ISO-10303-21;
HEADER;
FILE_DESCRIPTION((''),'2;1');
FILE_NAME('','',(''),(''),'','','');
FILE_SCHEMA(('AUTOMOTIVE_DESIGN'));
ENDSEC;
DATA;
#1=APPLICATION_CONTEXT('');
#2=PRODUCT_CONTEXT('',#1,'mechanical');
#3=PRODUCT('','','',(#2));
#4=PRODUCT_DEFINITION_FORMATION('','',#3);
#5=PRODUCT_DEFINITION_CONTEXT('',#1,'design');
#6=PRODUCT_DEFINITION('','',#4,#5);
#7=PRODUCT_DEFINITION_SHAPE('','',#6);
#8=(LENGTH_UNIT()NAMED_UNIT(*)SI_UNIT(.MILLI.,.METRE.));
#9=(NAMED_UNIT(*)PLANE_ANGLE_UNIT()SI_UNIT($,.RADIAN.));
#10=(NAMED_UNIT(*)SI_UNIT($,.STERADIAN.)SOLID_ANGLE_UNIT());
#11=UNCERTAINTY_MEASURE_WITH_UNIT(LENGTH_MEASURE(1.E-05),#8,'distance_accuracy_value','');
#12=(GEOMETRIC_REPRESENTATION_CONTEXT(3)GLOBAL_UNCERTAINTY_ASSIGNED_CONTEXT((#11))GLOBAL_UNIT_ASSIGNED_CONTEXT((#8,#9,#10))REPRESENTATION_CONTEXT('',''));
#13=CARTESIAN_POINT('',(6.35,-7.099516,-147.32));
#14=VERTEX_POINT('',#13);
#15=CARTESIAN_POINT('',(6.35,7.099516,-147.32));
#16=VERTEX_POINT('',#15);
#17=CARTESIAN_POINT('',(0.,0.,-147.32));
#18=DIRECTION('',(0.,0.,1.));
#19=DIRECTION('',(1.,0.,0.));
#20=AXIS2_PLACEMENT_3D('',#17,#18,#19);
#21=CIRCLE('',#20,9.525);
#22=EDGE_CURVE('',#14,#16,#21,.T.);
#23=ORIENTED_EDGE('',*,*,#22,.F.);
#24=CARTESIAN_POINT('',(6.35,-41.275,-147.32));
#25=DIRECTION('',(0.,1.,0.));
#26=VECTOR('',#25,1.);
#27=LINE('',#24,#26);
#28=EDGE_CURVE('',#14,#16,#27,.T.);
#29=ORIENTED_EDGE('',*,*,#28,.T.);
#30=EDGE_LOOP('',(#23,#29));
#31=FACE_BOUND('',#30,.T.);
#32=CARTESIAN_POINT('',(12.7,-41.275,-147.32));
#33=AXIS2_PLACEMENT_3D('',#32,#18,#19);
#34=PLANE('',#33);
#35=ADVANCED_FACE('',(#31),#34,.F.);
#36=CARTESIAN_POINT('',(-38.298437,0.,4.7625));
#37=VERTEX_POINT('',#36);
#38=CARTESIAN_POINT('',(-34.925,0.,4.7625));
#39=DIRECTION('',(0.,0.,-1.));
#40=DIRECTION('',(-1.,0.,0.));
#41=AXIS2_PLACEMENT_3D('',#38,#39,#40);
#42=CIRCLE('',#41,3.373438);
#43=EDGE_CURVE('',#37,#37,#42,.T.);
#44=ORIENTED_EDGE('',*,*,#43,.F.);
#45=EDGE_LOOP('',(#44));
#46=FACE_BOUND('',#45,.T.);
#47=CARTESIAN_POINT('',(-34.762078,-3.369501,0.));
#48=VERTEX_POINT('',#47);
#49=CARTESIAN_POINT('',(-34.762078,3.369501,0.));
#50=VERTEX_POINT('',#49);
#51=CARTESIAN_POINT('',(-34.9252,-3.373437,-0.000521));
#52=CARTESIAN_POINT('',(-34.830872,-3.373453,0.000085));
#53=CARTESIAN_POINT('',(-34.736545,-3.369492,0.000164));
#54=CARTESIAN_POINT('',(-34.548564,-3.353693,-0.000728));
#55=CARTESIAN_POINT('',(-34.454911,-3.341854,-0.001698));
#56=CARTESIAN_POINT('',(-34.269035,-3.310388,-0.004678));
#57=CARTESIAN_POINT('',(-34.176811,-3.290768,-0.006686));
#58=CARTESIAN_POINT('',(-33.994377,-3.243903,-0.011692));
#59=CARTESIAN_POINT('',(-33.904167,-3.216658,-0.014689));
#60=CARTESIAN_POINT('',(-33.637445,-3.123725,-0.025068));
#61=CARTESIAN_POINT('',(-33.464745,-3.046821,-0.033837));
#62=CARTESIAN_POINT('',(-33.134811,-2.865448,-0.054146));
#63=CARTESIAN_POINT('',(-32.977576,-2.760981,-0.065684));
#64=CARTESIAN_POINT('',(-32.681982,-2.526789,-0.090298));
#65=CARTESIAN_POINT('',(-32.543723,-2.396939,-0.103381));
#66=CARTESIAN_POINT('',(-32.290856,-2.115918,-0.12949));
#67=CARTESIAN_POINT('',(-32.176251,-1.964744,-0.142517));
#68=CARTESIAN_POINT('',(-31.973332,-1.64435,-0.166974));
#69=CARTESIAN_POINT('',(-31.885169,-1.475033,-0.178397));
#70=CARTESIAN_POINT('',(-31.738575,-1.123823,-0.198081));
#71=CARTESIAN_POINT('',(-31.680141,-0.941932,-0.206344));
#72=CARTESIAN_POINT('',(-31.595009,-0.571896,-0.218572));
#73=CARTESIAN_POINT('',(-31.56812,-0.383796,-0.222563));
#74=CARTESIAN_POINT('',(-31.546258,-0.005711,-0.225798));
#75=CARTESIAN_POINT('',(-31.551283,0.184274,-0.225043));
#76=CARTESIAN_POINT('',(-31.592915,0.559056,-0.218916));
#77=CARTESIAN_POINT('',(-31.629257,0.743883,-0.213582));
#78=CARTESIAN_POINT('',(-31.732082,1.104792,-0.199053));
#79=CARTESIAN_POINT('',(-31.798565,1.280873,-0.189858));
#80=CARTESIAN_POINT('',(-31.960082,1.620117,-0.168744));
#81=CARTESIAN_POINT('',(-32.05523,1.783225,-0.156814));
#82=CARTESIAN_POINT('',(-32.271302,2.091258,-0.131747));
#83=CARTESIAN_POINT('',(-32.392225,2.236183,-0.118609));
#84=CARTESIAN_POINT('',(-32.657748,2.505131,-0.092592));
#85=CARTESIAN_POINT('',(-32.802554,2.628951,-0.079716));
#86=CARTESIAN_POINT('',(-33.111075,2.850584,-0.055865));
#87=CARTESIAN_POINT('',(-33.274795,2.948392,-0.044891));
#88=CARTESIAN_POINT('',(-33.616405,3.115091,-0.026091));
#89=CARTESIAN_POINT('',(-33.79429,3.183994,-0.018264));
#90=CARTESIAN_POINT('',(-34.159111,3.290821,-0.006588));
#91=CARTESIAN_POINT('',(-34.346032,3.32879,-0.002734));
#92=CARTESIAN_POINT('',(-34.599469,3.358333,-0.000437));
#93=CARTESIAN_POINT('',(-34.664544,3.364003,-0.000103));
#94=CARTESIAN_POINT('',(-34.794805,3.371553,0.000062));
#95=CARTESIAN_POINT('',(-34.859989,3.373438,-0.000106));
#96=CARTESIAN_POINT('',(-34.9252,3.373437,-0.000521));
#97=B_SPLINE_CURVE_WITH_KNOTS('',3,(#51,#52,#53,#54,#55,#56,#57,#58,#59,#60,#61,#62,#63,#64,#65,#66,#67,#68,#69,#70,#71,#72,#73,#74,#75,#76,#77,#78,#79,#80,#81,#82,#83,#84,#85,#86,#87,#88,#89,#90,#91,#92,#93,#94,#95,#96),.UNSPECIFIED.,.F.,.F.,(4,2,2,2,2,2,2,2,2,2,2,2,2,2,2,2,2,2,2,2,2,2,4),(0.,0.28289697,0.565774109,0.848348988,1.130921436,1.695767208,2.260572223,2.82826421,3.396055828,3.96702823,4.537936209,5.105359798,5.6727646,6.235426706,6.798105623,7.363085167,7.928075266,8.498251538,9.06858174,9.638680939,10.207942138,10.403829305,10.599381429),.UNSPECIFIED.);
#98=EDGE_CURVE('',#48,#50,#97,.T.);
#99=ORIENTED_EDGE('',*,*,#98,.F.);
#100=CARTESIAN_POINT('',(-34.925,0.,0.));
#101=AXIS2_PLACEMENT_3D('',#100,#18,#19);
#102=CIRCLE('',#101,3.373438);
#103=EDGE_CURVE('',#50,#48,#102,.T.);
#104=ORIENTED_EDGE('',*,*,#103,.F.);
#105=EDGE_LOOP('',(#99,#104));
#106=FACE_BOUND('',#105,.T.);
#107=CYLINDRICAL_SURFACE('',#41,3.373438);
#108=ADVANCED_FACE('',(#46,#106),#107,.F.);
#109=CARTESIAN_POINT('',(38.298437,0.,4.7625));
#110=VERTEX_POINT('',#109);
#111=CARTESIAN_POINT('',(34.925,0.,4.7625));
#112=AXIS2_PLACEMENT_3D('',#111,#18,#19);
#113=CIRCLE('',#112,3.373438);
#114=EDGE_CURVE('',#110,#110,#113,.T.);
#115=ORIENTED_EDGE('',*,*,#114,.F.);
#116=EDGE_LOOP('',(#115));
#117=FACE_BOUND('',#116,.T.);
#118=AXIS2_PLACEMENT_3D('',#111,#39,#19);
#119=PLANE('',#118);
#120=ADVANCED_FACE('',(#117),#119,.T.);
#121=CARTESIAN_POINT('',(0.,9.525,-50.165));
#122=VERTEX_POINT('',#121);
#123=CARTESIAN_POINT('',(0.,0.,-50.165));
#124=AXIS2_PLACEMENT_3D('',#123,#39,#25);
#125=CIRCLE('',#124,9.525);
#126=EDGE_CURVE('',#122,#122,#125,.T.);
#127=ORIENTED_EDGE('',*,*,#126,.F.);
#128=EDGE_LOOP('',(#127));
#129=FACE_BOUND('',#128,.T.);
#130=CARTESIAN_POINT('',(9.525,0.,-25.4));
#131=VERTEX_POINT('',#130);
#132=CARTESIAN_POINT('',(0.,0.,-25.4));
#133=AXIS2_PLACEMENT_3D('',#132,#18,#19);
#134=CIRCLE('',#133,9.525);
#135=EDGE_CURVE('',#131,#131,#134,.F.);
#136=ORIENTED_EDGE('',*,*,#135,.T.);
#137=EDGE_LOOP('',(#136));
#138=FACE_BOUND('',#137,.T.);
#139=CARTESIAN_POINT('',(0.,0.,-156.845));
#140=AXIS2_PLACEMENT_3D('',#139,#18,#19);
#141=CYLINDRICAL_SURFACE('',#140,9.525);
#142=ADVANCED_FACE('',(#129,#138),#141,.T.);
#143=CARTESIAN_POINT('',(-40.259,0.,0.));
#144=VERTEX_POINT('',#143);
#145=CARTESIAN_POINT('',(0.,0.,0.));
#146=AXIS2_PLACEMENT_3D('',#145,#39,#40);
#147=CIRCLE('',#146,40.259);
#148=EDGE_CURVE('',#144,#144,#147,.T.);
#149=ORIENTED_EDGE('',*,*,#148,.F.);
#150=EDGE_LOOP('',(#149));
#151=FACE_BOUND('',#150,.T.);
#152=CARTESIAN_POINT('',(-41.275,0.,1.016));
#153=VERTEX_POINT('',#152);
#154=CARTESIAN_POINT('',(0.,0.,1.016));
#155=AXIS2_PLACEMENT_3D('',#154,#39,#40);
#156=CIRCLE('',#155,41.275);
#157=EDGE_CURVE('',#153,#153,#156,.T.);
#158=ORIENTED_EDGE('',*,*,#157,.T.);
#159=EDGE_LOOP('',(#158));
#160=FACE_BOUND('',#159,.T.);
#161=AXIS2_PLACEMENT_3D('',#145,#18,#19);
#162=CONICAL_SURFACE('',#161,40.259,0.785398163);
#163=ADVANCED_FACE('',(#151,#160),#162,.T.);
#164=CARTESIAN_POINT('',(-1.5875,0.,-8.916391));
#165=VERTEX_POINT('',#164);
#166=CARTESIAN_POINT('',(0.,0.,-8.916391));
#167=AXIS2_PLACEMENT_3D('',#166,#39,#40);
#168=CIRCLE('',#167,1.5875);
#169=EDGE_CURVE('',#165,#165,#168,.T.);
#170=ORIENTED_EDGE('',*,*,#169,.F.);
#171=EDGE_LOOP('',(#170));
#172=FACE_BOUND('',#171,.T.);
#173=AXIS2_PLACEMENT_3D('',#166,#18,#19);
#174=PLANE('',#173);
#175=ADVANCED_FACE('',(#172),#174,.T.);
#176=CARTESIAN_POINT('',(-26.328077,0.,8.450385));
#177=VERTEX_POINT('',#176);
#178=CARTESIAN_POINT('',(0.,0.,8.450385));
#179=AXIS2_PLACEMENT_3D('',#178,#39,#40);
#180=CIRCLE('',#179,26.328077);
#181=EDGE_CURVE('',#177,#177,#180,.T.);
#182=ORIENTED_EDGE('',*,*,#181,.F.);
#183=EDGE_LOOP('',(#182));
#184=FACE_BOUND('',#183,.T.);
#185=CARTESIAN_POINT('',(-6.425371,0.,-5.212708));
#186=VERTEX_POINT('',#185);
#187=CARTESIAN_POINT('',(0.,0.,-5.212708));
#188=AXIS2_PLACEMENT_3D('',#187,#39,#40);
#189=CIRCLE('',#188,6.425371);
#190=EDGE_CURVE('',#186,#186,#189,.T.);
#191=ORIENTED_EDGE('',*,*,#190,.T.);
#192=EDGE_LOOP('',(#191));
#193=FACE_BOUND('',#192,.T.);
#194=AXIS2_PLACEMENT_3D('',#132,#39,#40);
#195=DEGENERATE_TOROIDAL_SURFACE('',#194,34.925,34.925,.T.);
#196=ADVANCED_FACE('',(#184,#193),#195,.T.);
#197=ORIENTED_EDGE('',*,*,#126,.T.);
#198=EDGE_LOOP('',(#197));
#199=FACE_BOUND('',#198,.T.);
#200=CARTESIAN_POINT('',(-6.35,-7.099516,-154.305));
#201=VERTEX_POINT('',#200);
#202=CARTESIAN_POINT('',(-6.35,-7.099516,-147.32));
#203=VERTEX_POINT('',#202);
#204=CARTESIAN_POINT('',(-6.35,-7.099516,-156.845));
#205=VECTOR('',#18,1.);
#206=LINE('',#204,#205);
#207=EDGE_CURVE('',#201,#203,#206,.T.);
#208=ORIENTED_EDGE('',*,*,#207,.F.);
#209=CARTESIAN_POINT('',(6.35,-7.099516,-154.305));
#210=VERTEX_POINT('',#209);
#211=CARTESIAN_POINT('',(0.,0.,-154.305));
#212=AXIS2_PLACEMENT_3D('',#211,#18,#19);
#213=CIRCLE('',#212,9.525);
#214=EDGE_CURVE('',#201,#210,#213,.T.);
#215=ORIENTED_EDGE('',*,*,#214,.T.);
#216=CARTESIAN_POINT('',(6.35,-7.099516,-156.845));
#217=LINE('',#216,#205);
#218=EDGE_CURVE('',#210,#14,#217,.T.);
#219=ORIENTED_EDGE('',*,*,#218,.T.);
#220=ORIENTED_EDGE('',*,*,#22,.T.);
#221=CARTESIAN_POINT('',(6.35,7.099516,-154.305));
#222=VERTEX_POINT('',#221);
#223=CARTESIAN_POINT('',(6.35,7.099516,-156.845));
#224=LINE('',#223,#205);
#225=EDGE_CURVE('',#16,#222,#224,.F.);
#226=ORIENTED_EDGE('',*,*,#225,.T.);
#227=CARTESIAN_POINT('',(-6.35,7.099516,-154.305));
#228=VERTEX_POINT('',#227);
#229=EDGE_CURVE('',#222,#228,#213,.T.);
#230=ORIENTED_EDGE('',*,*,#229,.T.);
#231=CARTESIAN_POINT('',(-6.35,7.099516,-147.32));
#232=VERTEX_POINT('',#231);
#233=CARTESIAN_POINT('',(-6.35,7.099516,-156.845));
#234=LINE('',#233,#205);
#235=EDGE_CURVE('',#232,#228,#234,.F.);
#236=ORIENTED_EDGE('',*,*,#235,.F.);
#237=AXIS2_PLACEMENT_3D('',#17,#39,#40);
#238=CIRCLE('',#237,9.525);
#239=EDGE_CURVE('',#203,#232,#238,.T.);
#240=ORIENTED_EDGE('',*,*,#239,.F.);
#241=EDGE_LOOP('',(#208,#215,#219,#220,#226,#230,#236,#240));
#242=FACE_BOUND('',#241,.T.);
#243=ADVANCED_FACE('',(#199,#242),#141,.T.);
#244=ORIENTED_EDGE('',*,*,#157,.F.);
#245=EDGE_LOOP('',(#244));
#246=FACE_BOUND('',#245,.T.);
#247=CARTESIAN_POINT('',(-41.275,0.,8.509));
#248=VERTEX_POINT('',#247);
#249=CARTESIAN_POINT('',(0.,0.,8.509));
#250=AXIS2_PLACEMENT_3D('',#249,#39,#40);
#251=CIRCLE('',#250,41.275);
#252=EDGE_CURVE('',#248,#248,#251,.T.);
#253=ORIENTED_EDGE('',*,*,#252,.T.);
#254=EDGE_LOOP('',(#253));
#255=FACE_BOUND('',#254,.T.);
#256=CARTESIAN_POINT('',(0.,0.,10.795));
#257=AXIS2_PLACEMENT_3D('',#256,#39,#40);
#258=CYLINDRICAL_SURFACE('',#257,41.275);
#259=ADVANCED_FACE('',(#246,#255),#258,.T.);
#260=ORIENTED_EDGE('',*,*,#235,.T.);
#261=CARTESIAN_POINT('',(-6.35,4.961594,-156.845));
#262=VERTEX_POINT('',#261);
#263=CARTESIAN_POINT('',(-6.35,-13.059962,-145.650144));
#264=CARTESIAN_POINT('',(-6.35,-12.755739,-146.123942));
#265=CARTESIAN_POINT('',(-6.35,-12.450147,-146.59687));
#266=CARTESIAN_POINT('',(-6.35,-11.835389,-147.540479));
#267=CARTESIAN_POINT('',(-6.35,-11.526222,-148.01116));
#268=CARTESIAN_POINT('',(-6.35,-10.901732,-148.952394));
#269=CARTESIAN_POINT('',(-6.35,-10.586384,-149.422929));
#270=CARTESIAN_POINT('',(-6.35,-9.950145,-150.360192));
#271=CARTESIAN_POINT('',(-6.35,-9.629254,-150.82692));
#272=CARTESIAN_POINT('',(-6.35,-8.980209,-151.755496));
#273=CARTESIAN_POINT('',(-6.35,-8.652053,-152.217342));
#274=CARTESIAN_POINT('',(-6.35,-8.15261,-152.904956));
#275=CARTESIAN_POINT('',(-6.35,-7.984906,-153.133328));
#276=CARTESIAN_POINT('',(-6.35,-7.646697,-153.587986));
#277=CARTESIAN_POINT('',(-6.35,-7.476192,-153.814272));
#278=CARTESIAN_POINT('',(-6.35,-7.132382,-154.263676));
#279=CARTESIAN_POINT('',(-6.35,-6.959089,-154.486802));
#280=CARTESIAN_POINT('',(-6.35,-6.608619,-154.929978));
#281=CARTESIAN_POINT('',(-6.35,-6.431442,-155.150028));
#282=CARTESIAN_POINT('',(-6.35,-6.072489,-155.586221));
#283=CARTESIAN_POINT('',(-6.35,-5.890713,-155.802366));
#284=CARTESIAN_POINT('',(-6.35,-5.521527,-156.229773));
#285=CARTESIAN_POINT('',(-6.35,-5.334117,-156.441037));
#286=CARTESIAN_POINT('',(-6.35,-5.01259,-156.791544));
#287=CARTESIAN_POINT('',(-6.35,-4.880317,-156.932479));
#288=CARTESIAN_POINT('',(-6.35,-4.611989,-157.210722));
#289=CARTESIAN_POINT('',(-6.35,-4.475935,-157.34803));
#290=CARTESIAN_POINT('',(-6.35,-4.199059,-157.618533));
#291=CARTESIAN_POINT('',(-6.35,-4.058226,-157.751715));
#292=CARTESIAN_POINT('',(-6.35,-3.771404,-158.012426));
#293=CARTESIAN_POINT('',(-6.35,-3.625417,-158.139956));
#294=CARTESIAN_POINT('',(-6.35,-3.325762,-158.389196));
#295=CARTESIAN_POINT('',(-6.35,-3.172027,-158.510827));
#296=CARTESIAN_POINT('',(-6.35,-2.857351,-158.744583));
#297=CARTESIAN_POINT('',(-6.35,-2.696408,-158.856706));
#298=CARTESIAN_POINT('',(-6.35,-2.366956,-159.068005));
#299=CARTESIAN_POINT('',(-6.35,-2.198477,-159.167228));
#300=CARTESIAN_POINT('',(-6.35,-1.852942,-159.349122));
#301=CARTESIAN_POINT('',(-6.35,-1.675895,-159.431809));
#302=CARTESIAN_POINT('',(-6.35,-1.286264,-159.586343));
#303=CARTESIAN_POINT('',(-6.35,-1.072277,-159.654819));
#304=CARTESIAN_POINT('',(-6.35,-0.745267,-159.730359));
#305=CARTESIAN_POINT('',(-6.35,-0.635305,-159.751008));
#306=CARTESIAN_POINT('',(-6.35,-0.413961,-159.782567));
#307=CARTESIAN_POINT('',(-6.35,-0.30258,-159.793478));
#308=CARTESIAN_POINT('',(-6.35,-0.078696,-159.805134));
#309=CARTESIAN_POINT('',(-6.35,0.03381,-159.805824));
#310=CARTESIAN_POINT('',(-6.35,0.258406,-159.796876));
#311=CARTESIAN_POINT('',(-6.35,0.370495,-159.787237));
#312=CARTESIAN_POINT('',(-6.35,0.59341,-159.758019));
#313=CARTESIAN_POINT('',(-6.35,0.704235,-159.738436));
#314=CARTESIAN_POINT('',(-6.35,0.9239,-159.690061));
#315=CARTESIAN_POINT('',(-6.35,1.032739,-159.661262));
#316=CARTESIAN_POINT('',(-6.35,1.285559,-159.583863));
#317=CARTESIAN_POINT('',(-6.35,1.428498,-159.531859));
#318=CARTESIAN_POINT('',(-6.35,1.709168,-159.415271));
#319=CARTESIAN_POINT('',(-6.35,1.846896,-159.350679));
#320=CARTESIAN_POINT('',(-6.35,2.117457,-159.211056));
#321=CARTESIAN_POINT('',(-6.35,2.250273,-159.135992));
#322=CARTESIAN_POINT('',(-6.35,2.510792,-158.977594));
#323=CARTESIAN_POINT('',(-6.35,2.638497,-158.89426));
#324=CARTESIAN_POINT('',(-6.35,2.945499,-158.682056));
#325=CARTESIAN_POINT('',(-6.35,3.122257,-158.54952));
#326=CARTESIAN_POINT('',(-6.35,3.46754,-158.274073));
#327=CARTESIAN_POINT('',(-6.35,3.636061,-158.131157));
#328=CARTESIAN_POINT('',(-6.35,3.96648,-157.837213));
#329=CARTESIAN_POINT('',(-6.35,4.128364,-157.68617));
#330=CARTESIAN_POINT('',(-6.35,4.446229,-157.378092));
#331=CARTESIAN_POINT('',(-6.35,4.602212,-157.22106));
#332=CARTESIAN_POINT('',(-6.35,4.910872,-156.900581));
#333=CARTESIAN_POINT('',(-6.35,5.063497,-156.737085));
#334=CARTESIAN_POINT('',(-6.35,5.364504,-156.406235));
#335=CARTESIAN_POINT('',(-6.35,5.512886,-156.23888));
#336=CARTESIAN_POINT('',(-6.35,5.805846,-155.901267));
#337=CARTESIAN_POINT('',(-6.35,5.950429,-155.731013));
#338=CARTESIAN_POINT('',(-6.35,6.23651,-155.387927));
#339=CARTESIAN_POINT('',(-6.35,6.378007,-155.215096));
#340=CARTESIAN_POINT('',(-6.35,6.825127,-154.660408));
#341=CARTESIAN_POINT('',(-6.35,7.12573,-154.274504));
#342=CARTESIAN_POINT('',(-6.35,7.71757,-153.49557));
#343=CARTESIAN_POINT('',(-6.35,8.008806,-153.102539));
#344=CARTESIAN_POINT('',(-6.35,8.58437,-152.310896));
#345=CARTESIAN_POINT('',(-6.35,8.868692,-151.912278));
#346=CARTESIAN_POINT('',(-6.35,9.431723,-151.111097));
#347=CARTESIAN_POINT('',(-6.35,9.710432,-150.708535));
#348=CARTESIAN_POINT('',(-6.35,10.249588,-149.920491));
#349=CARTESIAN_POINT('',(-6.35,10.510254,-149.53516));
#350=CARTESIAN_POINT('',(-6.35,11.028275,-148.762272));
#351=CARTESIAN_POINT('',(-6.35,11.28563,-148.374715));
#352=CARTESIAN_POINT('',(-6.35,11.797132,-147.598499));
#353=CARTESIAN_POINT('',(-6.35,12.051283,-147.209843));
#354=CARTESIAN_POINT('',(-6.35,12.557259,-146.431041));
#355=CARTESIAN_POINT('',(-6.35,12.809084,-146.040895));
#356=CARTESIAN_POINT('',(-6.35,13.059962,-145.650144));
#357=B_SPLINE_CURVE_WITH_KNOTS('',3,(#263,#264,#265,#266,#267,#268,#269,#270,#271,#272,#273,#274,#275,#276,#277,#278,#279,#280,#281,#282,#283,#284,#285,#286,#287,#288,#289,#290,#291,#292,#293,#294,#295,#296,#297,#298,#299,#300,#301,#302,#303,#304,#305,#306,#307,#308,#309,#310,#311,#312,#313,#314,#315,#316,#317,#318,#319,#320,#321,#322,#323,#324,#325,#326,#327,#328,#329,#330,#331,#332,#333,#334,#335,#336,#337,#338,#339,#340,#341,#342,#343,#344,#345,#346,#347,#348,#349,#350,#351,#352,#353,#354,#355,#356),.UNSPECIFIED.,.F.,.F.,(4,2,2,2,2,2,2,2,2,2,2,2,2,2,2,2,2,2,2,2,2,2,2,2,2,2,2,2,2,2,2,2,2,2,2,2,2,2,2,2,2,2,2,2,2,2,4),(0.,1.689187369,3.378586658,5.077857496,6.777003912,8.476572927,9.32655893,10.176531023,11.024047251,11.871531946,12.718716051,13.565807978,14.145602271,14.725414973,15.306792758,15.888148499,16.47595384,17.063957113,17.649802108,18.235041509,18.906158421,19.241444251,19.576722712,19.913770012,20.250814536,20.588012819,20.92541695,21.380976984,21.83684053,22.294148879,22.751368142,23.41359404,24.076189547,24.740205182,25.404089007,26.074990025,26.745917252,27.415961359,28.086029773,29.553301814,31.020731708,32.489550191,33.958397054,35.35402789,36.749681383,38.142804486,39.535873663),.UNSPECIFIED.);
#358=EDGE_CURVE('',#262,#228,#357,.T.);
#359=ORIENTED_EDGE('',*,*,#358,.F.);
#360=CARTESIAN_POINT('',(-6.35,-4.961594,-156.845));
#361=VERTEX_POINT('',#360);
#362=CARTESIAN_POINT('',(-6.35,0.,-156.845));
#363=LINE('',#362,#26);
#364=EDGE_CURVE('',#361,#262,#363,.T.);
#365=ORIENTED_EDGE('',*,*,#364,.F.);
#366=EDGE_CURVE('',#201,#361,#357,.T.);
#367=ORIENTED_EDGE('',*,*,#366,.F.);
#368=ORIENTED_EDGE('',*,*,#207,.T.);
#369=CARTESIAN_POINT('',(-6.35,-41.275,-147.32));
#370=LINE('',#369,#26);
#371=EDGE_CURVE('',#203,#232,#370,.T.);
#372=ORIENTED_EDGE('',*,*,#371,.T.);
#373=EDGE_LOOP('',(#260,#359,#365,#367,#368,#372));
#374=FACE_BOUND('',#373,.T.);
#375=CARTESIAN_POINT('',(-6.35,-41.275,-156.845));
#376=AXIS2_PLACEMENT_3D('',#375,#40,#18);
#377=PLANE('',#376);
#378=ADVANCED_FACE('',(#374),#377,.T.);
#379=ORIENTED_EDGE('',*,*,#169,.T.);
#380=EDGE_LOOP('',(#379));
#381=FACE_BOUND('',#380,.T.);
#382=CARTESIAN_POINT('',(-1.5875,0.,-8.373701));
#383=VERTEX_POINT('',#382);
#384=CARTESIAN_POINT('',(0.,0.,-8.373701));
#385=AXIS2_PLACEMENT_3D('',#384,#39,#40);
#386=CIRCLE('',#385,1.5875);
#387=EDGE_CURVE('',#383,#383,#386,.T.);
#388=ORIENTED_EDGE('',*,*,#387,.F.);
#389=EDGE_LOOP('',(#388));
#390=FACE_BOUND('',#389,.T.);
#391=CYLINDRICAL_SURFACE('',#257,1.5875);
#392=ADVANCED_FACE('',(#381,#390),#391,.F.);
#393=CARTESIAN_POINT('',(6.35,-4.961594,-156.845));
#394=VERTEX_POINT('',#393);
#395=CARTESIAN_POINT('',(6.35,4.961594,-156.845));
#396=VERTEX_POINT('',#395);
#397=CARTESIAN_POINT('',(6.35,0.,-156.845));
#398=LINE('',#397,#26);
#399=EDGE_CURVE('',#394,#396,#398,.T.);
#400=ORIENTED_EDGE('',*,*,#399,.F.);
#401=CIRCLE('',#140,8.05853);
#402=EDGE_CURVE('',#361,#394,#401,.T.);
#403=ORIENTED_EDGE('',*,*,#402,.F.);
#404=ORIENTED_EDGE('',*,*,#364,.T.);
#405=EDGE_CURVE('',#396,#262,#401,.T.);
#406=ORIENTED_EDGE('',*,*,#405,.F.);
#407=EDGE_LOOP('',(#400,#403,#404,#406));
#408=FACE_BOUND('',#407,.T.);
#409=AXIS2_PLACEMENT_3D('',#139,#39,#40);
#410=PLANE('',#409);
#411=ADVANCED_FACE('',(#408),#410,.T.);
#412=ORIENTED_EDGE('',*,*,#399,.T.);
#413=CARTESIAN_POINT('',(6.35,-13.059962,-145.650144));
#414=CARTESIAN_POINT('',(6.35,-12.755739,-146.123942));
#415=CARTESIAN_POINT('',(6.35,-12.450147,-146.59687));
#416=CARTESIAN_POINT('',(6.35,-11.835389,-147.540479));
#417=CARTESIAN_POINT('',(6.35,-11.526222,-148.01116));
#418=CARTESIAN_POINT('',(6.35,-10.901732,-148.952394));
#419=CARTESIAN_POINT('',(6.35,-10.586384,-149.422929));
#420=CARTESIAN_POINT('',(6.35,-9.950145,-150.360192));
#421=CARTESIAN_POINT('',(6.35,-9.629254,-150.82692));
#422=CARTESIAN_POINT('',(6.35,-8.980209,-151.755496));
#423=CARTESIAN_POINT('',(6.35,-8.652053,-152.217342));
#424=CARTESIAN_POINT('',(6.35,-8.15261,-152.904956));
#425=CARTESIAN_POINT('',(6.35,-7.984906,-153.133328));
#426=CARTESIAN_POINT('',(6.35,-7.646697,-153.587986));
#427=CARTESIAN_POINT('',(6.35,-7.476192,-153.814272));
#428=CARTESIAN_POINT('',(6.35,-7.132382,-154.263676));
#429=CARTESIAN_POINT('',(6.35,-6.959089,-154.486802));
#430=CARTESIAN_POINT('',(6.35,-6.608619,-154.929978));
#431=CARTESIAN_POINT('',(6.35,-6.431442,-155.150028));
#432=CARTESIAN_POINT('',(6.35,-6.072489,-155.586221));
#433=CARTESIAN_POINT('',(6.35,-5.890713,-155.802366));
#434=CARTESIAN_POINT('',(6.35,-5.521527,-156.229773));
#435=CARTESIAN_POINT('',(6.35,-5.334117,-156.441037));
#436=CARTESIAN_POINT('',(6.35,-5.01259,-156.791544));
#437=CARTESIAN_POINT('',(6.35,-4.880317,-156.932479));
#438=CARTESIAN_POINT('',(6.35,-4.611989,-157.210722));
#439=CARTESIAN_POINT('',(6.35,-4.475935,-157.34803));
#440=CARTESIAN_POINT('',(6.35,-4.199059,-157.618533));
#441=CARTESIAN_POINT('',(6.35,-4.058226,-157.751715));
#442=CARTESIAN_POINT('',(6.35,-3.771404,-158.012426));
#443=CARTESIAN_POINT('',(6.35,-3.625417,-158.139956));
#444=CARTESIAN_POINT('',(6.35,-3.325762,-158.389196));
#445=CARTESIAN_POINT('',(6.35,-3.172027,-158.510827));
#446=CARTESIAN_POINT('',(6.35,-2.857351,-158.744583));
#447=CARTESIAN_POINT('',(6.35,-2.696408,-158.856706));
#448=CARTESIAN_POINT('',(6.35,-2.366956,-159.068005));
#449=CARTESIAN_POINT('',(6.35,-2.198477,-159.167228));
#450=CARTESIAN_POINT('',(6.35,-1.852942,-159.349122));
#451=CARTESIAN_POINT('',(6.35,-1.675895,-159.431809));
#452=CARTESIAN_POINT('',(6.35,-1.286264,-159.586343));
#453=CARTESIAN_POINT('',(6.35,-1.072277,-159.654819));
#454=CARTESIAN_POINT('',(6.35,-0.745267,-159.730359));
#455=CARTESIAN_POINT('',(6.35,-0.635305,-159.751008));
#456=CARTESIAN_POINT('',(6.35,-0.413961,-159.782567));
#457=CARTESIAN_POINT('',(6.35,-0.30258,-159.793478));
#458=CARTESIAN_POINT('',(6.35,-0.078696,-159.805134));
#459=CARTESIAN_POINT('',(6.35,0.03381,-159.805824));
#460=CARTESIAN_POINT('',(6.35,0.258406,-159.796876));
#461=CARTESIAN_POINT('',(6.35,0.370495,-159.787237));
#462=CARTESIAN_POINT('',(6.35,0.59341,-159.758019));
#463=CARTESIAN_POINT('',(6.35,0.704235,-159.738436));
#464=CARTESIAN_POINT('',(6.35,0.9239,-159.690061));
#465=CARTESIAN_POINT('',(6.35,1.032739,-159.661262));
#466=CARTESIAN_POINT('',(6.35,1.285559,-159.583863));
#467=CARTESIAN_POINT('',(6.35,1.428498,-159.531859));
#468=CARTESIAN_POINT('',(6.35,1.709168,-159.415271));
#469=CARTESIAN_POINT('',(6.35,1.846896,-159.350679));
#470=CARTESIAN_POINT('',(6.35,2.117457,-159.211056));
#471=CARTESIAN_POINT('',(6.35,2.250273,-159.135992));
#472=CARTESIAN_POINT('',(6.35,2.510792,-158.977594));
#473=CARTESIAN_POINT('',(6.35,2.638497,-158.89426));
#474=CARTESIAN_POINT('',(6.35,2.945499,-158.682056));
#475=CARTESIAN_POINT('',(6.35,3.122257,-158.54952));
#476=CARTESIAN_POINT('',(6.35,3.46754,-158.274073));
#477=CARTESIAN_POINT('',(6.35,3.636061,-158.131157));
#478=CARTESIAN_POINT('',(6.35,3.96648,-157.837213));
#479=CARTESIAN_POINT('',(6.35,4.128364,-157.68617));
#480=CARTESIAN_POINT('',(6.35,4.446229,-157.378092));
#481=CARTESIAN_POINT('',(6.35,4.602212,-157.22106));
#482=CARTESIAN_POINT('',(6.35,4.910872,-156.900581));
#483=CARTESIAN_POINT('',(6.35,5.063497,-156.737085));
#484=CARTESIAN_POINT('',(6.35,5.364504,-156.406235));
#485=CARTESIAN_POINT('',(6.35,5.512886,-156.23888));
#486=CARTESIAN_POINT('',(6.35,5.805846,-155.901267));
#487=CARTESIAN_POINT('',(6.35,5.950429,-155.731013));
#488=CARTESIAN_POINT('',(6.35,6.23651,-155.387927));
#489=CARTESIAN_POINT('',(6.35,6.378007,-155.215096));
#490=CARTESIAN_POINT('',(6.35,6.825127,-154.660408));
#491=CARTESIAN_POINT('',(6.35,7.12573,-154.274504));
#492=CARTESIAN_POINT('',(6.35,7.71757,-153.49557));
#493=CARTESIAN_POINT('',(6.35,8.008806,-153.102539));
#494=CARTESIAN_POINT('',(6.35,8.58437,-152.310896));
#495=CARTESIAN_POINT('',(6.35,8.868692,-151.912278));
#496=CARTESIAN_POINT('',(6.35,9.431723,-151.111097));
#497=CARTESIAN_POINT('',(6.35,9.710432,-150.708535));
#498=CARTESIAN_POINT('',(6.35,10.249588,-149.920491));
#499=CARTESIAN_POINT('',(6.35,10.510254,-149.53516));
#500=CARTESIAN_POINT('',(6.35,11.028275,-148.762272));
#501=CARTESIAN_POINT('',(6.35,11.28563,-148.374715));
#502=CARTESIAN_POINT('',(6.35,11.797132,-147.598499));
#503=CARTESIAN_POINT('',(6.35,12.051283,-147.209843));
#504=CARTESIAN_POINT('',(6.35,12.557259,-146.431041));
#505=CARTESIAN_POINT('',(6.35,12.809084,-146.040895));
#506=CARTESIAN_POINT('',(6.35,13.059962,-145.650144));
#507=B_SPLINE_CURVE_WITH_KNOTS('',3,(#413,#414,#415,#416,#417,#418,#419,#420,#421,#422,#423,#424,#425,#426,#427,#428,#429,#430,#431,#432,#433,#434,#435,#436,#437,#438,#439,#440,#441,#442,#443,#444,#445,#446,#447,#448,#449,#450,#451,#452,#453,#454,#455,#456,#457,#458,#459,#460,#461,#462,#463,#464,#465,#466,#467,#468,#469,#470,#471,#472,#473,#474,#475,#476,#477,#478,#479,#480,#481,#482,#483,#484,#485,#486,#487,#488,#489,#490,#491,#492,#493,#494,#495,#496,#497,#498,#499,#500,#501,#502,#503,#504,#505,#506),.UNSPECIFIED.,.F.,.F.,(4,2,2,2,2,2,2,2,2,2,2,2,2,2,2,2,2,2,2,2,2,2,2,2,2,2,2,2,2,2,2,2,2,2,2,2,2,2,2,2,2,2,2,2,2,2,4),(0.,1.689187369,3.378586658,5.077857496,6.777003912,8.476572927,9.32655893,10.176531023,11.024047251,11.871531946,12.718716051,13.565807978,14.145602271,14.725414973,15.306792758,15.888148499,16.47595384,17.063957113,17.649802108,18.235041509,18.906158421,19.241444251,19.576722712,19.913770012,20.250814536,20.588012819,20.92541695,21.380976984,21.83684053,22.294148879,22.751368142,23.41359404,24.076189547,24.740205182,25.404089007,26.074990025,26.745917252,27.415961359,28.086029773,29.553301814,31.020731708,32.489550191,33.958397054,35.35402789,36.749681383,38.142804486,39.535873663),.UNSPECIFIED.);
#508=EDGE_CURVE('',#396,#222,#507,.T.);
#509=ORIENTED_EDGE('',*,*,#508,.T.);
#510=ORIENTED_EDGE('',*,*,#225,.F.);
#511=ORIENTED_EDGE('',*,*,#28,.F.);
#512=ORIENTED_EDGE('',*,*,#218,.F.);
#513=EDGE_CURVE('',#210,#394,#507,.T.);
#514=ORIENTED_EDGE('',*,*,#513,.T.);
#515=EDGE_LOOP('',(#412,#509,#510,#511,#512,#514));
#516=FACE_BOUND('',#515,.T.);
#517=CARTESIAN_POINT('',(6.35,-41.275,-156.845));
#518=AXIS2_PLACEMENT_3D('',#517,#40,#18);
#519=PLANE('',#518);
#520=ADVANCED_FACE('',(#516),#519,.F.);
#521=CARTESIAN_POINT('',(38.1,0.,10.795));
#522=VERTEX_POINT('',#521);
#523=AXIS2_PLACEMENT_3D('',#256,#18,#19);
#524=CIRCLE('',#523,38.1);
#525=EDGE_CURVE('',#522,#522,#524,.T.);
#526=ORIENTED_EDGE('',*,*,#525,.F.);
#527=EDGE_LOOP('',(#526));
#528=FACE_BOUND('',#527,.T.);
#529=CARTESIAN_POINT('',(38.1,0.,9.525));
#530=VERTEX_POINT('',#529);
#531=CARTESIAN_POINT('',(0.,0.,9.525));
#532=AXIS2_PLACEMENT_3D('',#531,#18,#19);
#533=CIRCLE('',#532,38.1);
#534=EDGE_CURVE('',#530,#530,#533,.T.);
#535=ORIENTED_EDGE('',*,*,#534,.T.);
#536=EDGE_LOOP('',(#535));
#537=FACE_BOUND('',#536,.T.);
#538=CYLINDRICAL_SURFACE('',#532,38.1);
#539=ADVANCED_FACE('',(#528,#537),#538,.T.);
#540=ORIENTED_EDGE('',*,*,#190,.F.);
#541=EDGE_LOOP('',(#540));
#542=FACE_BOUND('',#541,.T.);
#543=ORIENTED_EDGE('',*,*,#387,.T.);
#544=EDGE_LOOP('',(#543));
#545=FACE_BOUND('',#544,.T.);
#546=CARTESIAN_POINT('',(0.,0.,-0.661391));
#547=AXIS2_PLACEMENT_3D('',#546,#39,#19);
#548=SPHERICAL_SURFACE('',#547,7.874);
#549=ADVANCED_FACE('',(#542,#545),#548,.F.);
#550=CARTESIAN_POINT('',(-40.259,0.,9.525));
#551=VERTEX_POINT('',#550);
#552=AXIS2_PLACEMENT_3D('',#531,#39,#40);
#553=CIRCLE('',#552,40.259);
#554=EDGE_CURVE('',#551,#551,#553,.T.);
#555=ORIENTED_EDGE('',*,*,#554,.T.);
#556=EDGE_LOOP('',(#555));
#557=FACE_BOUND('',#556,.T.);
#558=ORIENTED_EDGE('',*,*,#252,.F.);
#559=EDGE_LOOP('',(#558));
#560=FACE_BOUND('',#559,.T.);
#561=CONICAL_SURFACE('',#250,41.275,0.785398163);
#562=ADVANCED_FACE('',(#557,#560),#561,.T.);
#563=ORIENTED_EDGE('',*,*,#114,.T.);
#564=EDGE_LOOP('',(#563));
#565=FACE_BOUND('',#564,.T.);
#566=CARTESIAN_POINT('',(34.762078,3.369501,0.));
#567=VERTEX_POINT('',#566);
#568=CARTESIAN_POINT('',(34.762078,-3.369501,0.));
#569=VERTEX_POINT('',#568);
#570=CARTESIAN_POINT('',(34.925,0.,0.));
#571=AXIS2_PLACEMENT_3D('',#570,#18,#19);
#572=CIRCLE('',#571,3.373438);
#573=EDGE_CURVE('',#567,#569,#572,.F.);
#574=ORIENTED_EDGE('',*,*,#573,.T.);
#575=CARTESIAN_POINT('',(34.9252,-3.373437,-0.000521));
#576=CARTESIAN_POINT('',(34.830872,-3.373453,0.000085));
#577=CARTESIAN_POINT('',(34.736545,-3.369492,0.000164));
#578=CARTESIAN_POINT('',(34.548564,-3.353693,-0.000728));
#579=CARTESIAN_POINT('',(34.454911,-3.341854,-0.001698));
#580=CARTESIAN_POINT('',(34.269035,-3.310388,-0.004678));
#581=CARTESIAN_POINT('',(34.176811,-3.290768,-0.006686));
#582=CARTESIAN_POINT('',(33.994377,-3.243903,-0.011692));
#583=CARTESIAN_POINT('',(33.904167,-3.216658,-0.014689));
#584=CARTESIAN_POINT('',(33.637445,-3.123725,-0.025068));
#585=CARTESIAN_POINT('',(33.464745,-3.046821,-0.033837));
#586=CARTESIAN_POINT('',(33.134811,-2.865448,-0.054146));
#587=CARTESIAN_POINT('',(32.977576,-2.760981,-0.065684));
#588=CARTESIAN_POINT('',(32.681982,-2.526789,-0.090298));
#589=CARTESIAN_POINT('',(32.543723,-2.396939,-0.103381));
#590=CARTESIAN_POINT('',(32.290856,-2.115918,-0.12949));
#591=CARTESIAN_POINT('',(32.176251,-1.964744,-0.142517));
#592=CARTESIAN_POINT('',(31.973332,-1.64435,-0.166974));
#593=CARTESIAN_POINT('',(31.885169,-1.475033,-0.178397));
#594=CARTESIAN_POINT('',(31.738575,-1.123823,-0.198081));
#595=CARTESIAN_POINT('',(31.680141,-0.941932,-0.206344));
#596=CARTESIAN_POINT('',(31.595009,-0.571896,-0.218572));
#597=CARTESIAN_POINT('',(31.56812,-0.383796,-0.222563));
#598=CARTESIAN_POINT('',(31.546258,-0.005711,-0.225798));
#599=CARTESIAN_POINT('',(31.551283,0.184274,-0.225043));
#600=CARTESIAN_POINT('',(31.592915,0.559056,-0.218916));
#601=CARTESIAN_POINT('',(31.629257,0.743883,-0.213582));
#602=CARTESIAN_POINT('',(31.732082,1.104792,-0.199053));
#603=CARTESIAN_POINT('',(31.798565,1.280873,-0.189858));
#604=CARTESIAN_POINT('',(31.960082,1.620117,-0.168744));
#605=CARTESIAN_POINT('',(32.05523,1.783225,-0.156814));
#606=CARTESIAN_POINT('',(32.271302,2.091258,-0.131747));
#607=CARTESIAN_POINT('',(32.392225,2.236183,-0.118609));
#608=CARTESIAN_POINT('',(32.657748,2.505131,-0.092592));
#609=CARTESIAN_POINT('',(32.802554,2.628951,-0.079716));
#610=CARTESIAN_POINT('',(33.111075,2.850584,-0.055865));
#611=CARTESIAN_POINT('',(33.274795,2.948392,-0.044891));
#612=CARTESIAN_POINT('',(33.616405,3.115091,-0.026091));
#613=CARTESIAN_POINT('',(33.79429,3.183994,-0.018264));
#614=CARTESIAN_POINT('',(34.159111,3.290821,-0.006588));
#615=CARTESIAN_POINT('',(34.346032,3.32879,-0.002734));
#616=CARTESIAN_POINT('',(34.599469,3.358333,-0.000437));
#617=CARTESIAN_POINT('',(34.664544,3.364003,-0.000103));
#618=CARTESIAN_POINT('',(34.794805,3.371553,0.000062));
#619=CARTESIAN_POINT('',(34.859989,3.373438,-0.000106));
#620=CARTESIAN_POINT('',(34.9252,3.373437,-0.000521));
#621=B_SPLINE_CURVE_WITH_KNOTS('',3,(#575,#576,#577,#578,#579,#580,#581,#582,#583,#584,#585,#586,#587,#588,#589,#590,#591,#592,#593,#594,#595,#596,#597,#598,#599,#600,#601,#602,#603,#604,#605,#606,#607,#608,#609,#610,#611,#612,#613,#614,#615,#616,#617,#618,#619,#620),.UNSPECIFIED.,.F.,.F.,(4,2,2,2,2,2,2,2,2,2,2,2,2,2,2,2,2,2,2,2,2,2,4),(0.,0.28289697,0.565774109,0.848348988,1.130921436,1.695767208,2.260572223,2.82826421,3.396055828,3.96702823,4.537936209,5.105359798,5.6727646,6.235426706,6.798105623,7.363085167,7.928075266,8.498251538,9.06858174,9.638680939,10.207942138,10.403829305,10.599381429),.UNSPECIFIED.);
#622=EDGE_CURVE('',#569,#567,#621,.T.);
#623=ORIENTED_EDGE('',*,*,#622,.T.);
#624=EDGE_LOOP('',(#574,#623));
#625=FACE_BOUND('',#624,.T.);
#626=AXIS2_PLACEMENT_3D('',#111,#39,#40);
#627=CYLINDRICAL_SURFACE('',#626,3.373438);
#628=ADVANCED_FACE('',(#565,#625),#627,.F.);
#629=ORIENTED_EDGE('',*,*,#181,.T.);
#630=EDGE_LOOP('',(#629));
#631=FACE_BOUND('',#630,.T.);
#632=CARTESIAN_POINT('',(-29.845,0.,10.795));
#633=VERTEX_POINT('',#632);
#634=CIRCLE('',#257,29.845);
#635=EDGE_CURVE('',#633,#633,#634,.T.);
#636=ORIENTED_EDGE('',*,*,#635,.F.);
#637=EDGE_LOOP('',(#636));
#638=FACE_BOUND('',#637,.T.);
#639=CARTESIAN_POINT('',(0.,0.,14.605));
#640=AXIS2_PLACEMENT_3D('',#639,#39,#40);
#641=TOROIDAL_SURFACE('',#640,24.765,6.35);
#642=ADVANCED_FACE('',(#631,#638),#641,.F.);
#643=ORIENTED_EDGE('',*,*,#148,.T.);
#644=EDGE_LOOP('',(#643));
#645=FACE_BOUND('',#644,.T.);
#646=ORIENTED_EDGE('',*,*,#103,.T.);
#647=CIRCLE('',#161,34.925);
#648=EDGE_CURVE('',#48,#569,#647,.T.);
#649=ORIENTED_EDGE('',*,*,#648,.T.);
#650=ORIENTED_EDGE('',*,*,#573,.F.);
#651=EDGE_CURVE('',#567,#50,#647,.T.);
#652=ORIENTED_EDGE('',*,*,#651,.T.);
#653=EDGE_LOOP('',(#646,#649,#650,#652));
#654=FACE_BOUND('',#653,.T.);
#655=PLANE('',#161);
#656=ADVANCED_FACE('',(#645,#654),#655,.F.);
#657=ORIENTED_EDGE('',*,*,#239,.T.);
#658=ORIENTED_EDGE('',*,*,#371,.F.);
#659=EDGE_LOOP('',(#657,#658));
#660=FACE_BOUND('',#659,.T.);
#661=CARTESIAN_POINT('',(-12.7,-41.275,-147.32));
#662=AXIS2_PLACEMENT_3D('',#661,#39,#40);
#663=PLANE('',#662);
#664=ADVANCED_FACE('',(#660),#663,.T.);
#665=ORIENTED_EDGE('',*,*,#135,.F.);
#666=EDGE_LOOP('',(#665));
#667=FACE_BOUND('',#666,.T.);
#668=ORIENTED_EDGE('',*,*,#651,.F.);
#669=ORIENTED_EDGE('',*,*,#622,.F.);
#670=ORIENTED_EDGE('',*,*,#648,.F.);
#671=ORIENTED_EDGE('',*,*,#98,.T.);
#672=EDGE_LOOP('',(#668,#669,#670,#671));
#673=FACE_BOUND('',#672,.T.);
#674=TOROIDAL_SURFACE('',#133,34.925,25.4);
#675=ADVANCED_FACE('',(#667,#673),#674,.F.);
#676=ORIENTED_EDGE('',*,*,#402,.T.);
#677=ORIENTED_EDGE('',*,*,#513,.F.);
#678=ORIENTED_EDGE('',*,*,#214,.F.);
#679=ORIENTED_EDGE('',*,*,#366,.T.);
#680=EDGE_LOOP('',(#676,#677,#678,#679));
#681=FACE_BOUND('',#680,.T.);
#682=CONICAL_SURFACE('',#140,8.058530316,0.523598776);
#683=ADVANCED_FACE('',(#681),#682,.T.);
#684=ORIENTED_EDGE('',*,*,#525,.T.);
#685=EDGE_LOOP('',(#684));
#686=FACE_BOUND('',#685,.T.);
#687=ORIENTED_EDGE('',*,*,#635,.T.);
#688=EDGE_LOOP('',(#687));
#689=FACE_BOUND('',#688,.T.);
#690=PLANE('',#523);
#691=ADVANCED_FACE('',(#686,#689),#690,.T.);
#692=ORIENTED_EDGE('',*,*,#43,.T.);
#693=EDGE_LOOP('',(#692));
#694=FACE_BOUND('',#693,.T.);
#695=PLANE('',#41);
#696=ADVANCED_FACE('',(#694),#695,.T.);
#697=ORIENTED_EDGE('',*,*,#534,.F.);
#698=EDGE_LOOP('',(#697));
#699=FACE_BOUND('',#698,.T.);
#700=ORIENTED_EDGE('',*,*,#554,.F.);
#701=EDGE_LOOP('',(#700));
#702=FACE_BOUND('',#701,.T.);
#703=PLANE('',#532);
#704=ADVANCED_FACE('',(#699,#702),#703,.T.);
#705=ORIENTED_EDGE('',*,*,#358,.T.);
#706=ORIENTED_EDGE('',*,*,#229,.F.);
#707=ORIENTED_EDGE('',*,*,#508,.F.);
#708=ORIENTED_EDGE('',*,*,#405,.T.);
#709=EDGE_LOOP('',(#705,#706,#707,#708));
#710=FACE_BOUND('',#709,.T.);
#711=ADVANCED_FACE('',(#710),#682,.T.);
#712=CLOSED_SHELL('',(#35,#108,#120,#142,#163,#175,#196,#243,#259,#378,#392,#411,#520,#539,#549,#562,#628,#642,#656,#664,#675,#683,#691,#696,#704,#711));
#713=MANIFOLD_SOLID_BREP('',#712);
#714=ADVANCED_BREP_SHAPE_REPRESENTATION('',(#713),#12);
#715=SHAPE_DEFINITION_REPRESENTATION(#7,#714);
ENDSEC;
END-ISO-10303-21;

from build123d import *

# Parameters (mm, degrees)
SKETCH1_R           = 41.275
BASE_EXTRUDE_DEPTH  = 10.795
SKETCH6_R           = 9.525
BOSS_EXTRUDE2_DEPTH = 156.845
FILLET1_R           = 25.4
CUT_EXTRUDE2_START  = -4.7625
SKETCH9_R           = 3.3734375
CUT_EXTRUDE2_DEPTH  = 162.6075
SKETCH26_R          = 69.037542482
SKETCH26_R_2        = 38.1
CUT_EXTRUDE7_DEPTH  = 1.27
SKETCH19_W          = 6.35
SKETCH19_H          = 9.525
CUT_EXTRUDE6_DEPTH  = 42.275


with BuildPart() as part:
    # Sketch1 → Base-Extrude (new body)
    with BuildSketch(Plane.XY):
        Circle(SKETCH1_R)
    extrude(amount=BASE_EXTRUDE_DEPTH)

    # Sketch6 → Boss-Extrude2 (add)
    with BuildSketch(Plane(origin=(0, 0, 0), x_dir=(-1, 0, 0), z_dir=(0, 0, -1))):
        with Locations(Location((0, 0, 0), (0, 0, 180))):  # turned: the seam where the file's is
            Circle(SKETCH6_R)
    extrude(amount=BOSS_EXTRUDE2_DEPTH)

    # Fillet1
    fillet1_edges = [part.edges().sort_by_distance(p)[0] for p in [
        (-9.525, 0, 0),
    ]]
    fillet(fillet1_edges, radius=FILLET1_R)

    # Sketch9 → Cut-Extrude2 (cut)
    with BuildSketch(Plane(origin=(0, 0, 0), x_dir=(-1, 0, 0), z_dir=(0, 0, -1)).offset(CUT_EXTRUDE2_START)):
        with Locations((34.925, 0)):
            Circle(SKETCH9_R)
    cut_extrude2 = extrude(amount=CUT_EXTRUDE2_DEPTH, mode=Mode.SUBTRACT)

    # Mirror1: Cut-Extrude2 across plane
    add(cut_extrude2.mirror(Plane(origin=(0, 0, 0), x_dir=(0, 0, 1), z_dir=(1, 0, 0))), mode=Mode.SUBTRACT)

    # Sketch26 → Cut-Extrude7 (cut)
    with BuildSketch(Plane.XY.offset(10.795)):
        Circle(SKETCH26_R)
        Circle(SKETCH26_R_2, mode=Mode.SUBTRACT)
    extrude(amount=-CUT_EXTRUDE7_DEPTH, mode=Mode.SUBTRACT)

    # Sketch19 → Cut-Extrude6 (cut, symmetric)
    with BuildSketch(Plane(origin=(0, 0, 0), x_dir=(1, 0, 0), z_dir=(0, 1, 0))):
        with Locations((9.525, 152.0825)):
            Rectangle(SKETCH19_W, SKETCH19_H)
    cut_extrude6 = extrude(amount=CUT_EXTRUDE6_DEPTH, both=True, mode=Mode.SUBTRACT)

    # Mirror2: Cut-Extrude6 across plane
    add(cut_extrude6.mirror(Plane(origin=(0, 0, 0), x_dir=(0, 0, 1), z_dir=(1, 0, 0))), mode=Mode.SUBTRACT)

    # Sketch21 → Cut-Revolve6 (revolve, cut)
    with BuildSketch(Plane(origin=(0, 0, 0), x_dir=(1, 0, 0), z_dir=(0, 1, 0))):
        with BuildLine():
            Line((29.845, -10.795), (0, -10.795))
            Line((0, -10.795), (0, 8.916390985))
            Line((0, 8.916390985), (1.5875, 8.916390985))
            Line((1.5875, 8.916390985), (1.5875, 8.37370061))
            ThreePointArc((1.5875, 8.37370061), (4.306912353, 7.253081359), (6.42537092, 5.212707777))
            ThreePointArc((6.42537092, 5.212707777), (15.158650592, -3.393177249), (26.328076923, -8.450384615))
            ThreePointArc((26.328076923, -8.450384615), (28.287346246, -9.321480631), (29.845, -10.795))
        make_face()
    revolve(axis=Axis((0, 0, 10.795), (0, 0, 1)), mode=Mode.SUBTRACT)

    # Sketch22 → Cut-Revolve7 (revolve, cut)
    with BuildSketch(Plane(origin=(0, 0, 0), x_dir=(1, 0, 0), z_dir=(0, 1, 0))):
        Polygon((8.058530316, 156.845), (9.525, 156.845), (9.525, 154.305), align=None)
    revolve(axis=Axis((0, 0, 10.795), (0, 0, -1)), mode=Mode.SUBTRACT)

    # Sketch23 → Cut-Revolve8 (revolve, cut)
    with BuildSketch(Plane(origin=(0, 0, 0), x_dir=(1, 0, 0), z_dir=(0, 1, 0)), mode=Mode.PRIVATE) as cut_revolve8_sk:
        Polygon((40.259, 0), (41.275, 0), (41.275, -1.016), align=None)
        Polygon((40.259, -9.525), (41.275, -9.525), (41.275, -8.509), align=None)
    revolve(cut_revolve8_sk.sketch.rotate(Axis((0, 0, 10.795), (0, 0, 1)), 180), axis=Axis((0, 0, 10.795), (0, 0, 1)), mode=Mode.SUBTRACT)  # turned: the seam where the file's is


solid = part.part
